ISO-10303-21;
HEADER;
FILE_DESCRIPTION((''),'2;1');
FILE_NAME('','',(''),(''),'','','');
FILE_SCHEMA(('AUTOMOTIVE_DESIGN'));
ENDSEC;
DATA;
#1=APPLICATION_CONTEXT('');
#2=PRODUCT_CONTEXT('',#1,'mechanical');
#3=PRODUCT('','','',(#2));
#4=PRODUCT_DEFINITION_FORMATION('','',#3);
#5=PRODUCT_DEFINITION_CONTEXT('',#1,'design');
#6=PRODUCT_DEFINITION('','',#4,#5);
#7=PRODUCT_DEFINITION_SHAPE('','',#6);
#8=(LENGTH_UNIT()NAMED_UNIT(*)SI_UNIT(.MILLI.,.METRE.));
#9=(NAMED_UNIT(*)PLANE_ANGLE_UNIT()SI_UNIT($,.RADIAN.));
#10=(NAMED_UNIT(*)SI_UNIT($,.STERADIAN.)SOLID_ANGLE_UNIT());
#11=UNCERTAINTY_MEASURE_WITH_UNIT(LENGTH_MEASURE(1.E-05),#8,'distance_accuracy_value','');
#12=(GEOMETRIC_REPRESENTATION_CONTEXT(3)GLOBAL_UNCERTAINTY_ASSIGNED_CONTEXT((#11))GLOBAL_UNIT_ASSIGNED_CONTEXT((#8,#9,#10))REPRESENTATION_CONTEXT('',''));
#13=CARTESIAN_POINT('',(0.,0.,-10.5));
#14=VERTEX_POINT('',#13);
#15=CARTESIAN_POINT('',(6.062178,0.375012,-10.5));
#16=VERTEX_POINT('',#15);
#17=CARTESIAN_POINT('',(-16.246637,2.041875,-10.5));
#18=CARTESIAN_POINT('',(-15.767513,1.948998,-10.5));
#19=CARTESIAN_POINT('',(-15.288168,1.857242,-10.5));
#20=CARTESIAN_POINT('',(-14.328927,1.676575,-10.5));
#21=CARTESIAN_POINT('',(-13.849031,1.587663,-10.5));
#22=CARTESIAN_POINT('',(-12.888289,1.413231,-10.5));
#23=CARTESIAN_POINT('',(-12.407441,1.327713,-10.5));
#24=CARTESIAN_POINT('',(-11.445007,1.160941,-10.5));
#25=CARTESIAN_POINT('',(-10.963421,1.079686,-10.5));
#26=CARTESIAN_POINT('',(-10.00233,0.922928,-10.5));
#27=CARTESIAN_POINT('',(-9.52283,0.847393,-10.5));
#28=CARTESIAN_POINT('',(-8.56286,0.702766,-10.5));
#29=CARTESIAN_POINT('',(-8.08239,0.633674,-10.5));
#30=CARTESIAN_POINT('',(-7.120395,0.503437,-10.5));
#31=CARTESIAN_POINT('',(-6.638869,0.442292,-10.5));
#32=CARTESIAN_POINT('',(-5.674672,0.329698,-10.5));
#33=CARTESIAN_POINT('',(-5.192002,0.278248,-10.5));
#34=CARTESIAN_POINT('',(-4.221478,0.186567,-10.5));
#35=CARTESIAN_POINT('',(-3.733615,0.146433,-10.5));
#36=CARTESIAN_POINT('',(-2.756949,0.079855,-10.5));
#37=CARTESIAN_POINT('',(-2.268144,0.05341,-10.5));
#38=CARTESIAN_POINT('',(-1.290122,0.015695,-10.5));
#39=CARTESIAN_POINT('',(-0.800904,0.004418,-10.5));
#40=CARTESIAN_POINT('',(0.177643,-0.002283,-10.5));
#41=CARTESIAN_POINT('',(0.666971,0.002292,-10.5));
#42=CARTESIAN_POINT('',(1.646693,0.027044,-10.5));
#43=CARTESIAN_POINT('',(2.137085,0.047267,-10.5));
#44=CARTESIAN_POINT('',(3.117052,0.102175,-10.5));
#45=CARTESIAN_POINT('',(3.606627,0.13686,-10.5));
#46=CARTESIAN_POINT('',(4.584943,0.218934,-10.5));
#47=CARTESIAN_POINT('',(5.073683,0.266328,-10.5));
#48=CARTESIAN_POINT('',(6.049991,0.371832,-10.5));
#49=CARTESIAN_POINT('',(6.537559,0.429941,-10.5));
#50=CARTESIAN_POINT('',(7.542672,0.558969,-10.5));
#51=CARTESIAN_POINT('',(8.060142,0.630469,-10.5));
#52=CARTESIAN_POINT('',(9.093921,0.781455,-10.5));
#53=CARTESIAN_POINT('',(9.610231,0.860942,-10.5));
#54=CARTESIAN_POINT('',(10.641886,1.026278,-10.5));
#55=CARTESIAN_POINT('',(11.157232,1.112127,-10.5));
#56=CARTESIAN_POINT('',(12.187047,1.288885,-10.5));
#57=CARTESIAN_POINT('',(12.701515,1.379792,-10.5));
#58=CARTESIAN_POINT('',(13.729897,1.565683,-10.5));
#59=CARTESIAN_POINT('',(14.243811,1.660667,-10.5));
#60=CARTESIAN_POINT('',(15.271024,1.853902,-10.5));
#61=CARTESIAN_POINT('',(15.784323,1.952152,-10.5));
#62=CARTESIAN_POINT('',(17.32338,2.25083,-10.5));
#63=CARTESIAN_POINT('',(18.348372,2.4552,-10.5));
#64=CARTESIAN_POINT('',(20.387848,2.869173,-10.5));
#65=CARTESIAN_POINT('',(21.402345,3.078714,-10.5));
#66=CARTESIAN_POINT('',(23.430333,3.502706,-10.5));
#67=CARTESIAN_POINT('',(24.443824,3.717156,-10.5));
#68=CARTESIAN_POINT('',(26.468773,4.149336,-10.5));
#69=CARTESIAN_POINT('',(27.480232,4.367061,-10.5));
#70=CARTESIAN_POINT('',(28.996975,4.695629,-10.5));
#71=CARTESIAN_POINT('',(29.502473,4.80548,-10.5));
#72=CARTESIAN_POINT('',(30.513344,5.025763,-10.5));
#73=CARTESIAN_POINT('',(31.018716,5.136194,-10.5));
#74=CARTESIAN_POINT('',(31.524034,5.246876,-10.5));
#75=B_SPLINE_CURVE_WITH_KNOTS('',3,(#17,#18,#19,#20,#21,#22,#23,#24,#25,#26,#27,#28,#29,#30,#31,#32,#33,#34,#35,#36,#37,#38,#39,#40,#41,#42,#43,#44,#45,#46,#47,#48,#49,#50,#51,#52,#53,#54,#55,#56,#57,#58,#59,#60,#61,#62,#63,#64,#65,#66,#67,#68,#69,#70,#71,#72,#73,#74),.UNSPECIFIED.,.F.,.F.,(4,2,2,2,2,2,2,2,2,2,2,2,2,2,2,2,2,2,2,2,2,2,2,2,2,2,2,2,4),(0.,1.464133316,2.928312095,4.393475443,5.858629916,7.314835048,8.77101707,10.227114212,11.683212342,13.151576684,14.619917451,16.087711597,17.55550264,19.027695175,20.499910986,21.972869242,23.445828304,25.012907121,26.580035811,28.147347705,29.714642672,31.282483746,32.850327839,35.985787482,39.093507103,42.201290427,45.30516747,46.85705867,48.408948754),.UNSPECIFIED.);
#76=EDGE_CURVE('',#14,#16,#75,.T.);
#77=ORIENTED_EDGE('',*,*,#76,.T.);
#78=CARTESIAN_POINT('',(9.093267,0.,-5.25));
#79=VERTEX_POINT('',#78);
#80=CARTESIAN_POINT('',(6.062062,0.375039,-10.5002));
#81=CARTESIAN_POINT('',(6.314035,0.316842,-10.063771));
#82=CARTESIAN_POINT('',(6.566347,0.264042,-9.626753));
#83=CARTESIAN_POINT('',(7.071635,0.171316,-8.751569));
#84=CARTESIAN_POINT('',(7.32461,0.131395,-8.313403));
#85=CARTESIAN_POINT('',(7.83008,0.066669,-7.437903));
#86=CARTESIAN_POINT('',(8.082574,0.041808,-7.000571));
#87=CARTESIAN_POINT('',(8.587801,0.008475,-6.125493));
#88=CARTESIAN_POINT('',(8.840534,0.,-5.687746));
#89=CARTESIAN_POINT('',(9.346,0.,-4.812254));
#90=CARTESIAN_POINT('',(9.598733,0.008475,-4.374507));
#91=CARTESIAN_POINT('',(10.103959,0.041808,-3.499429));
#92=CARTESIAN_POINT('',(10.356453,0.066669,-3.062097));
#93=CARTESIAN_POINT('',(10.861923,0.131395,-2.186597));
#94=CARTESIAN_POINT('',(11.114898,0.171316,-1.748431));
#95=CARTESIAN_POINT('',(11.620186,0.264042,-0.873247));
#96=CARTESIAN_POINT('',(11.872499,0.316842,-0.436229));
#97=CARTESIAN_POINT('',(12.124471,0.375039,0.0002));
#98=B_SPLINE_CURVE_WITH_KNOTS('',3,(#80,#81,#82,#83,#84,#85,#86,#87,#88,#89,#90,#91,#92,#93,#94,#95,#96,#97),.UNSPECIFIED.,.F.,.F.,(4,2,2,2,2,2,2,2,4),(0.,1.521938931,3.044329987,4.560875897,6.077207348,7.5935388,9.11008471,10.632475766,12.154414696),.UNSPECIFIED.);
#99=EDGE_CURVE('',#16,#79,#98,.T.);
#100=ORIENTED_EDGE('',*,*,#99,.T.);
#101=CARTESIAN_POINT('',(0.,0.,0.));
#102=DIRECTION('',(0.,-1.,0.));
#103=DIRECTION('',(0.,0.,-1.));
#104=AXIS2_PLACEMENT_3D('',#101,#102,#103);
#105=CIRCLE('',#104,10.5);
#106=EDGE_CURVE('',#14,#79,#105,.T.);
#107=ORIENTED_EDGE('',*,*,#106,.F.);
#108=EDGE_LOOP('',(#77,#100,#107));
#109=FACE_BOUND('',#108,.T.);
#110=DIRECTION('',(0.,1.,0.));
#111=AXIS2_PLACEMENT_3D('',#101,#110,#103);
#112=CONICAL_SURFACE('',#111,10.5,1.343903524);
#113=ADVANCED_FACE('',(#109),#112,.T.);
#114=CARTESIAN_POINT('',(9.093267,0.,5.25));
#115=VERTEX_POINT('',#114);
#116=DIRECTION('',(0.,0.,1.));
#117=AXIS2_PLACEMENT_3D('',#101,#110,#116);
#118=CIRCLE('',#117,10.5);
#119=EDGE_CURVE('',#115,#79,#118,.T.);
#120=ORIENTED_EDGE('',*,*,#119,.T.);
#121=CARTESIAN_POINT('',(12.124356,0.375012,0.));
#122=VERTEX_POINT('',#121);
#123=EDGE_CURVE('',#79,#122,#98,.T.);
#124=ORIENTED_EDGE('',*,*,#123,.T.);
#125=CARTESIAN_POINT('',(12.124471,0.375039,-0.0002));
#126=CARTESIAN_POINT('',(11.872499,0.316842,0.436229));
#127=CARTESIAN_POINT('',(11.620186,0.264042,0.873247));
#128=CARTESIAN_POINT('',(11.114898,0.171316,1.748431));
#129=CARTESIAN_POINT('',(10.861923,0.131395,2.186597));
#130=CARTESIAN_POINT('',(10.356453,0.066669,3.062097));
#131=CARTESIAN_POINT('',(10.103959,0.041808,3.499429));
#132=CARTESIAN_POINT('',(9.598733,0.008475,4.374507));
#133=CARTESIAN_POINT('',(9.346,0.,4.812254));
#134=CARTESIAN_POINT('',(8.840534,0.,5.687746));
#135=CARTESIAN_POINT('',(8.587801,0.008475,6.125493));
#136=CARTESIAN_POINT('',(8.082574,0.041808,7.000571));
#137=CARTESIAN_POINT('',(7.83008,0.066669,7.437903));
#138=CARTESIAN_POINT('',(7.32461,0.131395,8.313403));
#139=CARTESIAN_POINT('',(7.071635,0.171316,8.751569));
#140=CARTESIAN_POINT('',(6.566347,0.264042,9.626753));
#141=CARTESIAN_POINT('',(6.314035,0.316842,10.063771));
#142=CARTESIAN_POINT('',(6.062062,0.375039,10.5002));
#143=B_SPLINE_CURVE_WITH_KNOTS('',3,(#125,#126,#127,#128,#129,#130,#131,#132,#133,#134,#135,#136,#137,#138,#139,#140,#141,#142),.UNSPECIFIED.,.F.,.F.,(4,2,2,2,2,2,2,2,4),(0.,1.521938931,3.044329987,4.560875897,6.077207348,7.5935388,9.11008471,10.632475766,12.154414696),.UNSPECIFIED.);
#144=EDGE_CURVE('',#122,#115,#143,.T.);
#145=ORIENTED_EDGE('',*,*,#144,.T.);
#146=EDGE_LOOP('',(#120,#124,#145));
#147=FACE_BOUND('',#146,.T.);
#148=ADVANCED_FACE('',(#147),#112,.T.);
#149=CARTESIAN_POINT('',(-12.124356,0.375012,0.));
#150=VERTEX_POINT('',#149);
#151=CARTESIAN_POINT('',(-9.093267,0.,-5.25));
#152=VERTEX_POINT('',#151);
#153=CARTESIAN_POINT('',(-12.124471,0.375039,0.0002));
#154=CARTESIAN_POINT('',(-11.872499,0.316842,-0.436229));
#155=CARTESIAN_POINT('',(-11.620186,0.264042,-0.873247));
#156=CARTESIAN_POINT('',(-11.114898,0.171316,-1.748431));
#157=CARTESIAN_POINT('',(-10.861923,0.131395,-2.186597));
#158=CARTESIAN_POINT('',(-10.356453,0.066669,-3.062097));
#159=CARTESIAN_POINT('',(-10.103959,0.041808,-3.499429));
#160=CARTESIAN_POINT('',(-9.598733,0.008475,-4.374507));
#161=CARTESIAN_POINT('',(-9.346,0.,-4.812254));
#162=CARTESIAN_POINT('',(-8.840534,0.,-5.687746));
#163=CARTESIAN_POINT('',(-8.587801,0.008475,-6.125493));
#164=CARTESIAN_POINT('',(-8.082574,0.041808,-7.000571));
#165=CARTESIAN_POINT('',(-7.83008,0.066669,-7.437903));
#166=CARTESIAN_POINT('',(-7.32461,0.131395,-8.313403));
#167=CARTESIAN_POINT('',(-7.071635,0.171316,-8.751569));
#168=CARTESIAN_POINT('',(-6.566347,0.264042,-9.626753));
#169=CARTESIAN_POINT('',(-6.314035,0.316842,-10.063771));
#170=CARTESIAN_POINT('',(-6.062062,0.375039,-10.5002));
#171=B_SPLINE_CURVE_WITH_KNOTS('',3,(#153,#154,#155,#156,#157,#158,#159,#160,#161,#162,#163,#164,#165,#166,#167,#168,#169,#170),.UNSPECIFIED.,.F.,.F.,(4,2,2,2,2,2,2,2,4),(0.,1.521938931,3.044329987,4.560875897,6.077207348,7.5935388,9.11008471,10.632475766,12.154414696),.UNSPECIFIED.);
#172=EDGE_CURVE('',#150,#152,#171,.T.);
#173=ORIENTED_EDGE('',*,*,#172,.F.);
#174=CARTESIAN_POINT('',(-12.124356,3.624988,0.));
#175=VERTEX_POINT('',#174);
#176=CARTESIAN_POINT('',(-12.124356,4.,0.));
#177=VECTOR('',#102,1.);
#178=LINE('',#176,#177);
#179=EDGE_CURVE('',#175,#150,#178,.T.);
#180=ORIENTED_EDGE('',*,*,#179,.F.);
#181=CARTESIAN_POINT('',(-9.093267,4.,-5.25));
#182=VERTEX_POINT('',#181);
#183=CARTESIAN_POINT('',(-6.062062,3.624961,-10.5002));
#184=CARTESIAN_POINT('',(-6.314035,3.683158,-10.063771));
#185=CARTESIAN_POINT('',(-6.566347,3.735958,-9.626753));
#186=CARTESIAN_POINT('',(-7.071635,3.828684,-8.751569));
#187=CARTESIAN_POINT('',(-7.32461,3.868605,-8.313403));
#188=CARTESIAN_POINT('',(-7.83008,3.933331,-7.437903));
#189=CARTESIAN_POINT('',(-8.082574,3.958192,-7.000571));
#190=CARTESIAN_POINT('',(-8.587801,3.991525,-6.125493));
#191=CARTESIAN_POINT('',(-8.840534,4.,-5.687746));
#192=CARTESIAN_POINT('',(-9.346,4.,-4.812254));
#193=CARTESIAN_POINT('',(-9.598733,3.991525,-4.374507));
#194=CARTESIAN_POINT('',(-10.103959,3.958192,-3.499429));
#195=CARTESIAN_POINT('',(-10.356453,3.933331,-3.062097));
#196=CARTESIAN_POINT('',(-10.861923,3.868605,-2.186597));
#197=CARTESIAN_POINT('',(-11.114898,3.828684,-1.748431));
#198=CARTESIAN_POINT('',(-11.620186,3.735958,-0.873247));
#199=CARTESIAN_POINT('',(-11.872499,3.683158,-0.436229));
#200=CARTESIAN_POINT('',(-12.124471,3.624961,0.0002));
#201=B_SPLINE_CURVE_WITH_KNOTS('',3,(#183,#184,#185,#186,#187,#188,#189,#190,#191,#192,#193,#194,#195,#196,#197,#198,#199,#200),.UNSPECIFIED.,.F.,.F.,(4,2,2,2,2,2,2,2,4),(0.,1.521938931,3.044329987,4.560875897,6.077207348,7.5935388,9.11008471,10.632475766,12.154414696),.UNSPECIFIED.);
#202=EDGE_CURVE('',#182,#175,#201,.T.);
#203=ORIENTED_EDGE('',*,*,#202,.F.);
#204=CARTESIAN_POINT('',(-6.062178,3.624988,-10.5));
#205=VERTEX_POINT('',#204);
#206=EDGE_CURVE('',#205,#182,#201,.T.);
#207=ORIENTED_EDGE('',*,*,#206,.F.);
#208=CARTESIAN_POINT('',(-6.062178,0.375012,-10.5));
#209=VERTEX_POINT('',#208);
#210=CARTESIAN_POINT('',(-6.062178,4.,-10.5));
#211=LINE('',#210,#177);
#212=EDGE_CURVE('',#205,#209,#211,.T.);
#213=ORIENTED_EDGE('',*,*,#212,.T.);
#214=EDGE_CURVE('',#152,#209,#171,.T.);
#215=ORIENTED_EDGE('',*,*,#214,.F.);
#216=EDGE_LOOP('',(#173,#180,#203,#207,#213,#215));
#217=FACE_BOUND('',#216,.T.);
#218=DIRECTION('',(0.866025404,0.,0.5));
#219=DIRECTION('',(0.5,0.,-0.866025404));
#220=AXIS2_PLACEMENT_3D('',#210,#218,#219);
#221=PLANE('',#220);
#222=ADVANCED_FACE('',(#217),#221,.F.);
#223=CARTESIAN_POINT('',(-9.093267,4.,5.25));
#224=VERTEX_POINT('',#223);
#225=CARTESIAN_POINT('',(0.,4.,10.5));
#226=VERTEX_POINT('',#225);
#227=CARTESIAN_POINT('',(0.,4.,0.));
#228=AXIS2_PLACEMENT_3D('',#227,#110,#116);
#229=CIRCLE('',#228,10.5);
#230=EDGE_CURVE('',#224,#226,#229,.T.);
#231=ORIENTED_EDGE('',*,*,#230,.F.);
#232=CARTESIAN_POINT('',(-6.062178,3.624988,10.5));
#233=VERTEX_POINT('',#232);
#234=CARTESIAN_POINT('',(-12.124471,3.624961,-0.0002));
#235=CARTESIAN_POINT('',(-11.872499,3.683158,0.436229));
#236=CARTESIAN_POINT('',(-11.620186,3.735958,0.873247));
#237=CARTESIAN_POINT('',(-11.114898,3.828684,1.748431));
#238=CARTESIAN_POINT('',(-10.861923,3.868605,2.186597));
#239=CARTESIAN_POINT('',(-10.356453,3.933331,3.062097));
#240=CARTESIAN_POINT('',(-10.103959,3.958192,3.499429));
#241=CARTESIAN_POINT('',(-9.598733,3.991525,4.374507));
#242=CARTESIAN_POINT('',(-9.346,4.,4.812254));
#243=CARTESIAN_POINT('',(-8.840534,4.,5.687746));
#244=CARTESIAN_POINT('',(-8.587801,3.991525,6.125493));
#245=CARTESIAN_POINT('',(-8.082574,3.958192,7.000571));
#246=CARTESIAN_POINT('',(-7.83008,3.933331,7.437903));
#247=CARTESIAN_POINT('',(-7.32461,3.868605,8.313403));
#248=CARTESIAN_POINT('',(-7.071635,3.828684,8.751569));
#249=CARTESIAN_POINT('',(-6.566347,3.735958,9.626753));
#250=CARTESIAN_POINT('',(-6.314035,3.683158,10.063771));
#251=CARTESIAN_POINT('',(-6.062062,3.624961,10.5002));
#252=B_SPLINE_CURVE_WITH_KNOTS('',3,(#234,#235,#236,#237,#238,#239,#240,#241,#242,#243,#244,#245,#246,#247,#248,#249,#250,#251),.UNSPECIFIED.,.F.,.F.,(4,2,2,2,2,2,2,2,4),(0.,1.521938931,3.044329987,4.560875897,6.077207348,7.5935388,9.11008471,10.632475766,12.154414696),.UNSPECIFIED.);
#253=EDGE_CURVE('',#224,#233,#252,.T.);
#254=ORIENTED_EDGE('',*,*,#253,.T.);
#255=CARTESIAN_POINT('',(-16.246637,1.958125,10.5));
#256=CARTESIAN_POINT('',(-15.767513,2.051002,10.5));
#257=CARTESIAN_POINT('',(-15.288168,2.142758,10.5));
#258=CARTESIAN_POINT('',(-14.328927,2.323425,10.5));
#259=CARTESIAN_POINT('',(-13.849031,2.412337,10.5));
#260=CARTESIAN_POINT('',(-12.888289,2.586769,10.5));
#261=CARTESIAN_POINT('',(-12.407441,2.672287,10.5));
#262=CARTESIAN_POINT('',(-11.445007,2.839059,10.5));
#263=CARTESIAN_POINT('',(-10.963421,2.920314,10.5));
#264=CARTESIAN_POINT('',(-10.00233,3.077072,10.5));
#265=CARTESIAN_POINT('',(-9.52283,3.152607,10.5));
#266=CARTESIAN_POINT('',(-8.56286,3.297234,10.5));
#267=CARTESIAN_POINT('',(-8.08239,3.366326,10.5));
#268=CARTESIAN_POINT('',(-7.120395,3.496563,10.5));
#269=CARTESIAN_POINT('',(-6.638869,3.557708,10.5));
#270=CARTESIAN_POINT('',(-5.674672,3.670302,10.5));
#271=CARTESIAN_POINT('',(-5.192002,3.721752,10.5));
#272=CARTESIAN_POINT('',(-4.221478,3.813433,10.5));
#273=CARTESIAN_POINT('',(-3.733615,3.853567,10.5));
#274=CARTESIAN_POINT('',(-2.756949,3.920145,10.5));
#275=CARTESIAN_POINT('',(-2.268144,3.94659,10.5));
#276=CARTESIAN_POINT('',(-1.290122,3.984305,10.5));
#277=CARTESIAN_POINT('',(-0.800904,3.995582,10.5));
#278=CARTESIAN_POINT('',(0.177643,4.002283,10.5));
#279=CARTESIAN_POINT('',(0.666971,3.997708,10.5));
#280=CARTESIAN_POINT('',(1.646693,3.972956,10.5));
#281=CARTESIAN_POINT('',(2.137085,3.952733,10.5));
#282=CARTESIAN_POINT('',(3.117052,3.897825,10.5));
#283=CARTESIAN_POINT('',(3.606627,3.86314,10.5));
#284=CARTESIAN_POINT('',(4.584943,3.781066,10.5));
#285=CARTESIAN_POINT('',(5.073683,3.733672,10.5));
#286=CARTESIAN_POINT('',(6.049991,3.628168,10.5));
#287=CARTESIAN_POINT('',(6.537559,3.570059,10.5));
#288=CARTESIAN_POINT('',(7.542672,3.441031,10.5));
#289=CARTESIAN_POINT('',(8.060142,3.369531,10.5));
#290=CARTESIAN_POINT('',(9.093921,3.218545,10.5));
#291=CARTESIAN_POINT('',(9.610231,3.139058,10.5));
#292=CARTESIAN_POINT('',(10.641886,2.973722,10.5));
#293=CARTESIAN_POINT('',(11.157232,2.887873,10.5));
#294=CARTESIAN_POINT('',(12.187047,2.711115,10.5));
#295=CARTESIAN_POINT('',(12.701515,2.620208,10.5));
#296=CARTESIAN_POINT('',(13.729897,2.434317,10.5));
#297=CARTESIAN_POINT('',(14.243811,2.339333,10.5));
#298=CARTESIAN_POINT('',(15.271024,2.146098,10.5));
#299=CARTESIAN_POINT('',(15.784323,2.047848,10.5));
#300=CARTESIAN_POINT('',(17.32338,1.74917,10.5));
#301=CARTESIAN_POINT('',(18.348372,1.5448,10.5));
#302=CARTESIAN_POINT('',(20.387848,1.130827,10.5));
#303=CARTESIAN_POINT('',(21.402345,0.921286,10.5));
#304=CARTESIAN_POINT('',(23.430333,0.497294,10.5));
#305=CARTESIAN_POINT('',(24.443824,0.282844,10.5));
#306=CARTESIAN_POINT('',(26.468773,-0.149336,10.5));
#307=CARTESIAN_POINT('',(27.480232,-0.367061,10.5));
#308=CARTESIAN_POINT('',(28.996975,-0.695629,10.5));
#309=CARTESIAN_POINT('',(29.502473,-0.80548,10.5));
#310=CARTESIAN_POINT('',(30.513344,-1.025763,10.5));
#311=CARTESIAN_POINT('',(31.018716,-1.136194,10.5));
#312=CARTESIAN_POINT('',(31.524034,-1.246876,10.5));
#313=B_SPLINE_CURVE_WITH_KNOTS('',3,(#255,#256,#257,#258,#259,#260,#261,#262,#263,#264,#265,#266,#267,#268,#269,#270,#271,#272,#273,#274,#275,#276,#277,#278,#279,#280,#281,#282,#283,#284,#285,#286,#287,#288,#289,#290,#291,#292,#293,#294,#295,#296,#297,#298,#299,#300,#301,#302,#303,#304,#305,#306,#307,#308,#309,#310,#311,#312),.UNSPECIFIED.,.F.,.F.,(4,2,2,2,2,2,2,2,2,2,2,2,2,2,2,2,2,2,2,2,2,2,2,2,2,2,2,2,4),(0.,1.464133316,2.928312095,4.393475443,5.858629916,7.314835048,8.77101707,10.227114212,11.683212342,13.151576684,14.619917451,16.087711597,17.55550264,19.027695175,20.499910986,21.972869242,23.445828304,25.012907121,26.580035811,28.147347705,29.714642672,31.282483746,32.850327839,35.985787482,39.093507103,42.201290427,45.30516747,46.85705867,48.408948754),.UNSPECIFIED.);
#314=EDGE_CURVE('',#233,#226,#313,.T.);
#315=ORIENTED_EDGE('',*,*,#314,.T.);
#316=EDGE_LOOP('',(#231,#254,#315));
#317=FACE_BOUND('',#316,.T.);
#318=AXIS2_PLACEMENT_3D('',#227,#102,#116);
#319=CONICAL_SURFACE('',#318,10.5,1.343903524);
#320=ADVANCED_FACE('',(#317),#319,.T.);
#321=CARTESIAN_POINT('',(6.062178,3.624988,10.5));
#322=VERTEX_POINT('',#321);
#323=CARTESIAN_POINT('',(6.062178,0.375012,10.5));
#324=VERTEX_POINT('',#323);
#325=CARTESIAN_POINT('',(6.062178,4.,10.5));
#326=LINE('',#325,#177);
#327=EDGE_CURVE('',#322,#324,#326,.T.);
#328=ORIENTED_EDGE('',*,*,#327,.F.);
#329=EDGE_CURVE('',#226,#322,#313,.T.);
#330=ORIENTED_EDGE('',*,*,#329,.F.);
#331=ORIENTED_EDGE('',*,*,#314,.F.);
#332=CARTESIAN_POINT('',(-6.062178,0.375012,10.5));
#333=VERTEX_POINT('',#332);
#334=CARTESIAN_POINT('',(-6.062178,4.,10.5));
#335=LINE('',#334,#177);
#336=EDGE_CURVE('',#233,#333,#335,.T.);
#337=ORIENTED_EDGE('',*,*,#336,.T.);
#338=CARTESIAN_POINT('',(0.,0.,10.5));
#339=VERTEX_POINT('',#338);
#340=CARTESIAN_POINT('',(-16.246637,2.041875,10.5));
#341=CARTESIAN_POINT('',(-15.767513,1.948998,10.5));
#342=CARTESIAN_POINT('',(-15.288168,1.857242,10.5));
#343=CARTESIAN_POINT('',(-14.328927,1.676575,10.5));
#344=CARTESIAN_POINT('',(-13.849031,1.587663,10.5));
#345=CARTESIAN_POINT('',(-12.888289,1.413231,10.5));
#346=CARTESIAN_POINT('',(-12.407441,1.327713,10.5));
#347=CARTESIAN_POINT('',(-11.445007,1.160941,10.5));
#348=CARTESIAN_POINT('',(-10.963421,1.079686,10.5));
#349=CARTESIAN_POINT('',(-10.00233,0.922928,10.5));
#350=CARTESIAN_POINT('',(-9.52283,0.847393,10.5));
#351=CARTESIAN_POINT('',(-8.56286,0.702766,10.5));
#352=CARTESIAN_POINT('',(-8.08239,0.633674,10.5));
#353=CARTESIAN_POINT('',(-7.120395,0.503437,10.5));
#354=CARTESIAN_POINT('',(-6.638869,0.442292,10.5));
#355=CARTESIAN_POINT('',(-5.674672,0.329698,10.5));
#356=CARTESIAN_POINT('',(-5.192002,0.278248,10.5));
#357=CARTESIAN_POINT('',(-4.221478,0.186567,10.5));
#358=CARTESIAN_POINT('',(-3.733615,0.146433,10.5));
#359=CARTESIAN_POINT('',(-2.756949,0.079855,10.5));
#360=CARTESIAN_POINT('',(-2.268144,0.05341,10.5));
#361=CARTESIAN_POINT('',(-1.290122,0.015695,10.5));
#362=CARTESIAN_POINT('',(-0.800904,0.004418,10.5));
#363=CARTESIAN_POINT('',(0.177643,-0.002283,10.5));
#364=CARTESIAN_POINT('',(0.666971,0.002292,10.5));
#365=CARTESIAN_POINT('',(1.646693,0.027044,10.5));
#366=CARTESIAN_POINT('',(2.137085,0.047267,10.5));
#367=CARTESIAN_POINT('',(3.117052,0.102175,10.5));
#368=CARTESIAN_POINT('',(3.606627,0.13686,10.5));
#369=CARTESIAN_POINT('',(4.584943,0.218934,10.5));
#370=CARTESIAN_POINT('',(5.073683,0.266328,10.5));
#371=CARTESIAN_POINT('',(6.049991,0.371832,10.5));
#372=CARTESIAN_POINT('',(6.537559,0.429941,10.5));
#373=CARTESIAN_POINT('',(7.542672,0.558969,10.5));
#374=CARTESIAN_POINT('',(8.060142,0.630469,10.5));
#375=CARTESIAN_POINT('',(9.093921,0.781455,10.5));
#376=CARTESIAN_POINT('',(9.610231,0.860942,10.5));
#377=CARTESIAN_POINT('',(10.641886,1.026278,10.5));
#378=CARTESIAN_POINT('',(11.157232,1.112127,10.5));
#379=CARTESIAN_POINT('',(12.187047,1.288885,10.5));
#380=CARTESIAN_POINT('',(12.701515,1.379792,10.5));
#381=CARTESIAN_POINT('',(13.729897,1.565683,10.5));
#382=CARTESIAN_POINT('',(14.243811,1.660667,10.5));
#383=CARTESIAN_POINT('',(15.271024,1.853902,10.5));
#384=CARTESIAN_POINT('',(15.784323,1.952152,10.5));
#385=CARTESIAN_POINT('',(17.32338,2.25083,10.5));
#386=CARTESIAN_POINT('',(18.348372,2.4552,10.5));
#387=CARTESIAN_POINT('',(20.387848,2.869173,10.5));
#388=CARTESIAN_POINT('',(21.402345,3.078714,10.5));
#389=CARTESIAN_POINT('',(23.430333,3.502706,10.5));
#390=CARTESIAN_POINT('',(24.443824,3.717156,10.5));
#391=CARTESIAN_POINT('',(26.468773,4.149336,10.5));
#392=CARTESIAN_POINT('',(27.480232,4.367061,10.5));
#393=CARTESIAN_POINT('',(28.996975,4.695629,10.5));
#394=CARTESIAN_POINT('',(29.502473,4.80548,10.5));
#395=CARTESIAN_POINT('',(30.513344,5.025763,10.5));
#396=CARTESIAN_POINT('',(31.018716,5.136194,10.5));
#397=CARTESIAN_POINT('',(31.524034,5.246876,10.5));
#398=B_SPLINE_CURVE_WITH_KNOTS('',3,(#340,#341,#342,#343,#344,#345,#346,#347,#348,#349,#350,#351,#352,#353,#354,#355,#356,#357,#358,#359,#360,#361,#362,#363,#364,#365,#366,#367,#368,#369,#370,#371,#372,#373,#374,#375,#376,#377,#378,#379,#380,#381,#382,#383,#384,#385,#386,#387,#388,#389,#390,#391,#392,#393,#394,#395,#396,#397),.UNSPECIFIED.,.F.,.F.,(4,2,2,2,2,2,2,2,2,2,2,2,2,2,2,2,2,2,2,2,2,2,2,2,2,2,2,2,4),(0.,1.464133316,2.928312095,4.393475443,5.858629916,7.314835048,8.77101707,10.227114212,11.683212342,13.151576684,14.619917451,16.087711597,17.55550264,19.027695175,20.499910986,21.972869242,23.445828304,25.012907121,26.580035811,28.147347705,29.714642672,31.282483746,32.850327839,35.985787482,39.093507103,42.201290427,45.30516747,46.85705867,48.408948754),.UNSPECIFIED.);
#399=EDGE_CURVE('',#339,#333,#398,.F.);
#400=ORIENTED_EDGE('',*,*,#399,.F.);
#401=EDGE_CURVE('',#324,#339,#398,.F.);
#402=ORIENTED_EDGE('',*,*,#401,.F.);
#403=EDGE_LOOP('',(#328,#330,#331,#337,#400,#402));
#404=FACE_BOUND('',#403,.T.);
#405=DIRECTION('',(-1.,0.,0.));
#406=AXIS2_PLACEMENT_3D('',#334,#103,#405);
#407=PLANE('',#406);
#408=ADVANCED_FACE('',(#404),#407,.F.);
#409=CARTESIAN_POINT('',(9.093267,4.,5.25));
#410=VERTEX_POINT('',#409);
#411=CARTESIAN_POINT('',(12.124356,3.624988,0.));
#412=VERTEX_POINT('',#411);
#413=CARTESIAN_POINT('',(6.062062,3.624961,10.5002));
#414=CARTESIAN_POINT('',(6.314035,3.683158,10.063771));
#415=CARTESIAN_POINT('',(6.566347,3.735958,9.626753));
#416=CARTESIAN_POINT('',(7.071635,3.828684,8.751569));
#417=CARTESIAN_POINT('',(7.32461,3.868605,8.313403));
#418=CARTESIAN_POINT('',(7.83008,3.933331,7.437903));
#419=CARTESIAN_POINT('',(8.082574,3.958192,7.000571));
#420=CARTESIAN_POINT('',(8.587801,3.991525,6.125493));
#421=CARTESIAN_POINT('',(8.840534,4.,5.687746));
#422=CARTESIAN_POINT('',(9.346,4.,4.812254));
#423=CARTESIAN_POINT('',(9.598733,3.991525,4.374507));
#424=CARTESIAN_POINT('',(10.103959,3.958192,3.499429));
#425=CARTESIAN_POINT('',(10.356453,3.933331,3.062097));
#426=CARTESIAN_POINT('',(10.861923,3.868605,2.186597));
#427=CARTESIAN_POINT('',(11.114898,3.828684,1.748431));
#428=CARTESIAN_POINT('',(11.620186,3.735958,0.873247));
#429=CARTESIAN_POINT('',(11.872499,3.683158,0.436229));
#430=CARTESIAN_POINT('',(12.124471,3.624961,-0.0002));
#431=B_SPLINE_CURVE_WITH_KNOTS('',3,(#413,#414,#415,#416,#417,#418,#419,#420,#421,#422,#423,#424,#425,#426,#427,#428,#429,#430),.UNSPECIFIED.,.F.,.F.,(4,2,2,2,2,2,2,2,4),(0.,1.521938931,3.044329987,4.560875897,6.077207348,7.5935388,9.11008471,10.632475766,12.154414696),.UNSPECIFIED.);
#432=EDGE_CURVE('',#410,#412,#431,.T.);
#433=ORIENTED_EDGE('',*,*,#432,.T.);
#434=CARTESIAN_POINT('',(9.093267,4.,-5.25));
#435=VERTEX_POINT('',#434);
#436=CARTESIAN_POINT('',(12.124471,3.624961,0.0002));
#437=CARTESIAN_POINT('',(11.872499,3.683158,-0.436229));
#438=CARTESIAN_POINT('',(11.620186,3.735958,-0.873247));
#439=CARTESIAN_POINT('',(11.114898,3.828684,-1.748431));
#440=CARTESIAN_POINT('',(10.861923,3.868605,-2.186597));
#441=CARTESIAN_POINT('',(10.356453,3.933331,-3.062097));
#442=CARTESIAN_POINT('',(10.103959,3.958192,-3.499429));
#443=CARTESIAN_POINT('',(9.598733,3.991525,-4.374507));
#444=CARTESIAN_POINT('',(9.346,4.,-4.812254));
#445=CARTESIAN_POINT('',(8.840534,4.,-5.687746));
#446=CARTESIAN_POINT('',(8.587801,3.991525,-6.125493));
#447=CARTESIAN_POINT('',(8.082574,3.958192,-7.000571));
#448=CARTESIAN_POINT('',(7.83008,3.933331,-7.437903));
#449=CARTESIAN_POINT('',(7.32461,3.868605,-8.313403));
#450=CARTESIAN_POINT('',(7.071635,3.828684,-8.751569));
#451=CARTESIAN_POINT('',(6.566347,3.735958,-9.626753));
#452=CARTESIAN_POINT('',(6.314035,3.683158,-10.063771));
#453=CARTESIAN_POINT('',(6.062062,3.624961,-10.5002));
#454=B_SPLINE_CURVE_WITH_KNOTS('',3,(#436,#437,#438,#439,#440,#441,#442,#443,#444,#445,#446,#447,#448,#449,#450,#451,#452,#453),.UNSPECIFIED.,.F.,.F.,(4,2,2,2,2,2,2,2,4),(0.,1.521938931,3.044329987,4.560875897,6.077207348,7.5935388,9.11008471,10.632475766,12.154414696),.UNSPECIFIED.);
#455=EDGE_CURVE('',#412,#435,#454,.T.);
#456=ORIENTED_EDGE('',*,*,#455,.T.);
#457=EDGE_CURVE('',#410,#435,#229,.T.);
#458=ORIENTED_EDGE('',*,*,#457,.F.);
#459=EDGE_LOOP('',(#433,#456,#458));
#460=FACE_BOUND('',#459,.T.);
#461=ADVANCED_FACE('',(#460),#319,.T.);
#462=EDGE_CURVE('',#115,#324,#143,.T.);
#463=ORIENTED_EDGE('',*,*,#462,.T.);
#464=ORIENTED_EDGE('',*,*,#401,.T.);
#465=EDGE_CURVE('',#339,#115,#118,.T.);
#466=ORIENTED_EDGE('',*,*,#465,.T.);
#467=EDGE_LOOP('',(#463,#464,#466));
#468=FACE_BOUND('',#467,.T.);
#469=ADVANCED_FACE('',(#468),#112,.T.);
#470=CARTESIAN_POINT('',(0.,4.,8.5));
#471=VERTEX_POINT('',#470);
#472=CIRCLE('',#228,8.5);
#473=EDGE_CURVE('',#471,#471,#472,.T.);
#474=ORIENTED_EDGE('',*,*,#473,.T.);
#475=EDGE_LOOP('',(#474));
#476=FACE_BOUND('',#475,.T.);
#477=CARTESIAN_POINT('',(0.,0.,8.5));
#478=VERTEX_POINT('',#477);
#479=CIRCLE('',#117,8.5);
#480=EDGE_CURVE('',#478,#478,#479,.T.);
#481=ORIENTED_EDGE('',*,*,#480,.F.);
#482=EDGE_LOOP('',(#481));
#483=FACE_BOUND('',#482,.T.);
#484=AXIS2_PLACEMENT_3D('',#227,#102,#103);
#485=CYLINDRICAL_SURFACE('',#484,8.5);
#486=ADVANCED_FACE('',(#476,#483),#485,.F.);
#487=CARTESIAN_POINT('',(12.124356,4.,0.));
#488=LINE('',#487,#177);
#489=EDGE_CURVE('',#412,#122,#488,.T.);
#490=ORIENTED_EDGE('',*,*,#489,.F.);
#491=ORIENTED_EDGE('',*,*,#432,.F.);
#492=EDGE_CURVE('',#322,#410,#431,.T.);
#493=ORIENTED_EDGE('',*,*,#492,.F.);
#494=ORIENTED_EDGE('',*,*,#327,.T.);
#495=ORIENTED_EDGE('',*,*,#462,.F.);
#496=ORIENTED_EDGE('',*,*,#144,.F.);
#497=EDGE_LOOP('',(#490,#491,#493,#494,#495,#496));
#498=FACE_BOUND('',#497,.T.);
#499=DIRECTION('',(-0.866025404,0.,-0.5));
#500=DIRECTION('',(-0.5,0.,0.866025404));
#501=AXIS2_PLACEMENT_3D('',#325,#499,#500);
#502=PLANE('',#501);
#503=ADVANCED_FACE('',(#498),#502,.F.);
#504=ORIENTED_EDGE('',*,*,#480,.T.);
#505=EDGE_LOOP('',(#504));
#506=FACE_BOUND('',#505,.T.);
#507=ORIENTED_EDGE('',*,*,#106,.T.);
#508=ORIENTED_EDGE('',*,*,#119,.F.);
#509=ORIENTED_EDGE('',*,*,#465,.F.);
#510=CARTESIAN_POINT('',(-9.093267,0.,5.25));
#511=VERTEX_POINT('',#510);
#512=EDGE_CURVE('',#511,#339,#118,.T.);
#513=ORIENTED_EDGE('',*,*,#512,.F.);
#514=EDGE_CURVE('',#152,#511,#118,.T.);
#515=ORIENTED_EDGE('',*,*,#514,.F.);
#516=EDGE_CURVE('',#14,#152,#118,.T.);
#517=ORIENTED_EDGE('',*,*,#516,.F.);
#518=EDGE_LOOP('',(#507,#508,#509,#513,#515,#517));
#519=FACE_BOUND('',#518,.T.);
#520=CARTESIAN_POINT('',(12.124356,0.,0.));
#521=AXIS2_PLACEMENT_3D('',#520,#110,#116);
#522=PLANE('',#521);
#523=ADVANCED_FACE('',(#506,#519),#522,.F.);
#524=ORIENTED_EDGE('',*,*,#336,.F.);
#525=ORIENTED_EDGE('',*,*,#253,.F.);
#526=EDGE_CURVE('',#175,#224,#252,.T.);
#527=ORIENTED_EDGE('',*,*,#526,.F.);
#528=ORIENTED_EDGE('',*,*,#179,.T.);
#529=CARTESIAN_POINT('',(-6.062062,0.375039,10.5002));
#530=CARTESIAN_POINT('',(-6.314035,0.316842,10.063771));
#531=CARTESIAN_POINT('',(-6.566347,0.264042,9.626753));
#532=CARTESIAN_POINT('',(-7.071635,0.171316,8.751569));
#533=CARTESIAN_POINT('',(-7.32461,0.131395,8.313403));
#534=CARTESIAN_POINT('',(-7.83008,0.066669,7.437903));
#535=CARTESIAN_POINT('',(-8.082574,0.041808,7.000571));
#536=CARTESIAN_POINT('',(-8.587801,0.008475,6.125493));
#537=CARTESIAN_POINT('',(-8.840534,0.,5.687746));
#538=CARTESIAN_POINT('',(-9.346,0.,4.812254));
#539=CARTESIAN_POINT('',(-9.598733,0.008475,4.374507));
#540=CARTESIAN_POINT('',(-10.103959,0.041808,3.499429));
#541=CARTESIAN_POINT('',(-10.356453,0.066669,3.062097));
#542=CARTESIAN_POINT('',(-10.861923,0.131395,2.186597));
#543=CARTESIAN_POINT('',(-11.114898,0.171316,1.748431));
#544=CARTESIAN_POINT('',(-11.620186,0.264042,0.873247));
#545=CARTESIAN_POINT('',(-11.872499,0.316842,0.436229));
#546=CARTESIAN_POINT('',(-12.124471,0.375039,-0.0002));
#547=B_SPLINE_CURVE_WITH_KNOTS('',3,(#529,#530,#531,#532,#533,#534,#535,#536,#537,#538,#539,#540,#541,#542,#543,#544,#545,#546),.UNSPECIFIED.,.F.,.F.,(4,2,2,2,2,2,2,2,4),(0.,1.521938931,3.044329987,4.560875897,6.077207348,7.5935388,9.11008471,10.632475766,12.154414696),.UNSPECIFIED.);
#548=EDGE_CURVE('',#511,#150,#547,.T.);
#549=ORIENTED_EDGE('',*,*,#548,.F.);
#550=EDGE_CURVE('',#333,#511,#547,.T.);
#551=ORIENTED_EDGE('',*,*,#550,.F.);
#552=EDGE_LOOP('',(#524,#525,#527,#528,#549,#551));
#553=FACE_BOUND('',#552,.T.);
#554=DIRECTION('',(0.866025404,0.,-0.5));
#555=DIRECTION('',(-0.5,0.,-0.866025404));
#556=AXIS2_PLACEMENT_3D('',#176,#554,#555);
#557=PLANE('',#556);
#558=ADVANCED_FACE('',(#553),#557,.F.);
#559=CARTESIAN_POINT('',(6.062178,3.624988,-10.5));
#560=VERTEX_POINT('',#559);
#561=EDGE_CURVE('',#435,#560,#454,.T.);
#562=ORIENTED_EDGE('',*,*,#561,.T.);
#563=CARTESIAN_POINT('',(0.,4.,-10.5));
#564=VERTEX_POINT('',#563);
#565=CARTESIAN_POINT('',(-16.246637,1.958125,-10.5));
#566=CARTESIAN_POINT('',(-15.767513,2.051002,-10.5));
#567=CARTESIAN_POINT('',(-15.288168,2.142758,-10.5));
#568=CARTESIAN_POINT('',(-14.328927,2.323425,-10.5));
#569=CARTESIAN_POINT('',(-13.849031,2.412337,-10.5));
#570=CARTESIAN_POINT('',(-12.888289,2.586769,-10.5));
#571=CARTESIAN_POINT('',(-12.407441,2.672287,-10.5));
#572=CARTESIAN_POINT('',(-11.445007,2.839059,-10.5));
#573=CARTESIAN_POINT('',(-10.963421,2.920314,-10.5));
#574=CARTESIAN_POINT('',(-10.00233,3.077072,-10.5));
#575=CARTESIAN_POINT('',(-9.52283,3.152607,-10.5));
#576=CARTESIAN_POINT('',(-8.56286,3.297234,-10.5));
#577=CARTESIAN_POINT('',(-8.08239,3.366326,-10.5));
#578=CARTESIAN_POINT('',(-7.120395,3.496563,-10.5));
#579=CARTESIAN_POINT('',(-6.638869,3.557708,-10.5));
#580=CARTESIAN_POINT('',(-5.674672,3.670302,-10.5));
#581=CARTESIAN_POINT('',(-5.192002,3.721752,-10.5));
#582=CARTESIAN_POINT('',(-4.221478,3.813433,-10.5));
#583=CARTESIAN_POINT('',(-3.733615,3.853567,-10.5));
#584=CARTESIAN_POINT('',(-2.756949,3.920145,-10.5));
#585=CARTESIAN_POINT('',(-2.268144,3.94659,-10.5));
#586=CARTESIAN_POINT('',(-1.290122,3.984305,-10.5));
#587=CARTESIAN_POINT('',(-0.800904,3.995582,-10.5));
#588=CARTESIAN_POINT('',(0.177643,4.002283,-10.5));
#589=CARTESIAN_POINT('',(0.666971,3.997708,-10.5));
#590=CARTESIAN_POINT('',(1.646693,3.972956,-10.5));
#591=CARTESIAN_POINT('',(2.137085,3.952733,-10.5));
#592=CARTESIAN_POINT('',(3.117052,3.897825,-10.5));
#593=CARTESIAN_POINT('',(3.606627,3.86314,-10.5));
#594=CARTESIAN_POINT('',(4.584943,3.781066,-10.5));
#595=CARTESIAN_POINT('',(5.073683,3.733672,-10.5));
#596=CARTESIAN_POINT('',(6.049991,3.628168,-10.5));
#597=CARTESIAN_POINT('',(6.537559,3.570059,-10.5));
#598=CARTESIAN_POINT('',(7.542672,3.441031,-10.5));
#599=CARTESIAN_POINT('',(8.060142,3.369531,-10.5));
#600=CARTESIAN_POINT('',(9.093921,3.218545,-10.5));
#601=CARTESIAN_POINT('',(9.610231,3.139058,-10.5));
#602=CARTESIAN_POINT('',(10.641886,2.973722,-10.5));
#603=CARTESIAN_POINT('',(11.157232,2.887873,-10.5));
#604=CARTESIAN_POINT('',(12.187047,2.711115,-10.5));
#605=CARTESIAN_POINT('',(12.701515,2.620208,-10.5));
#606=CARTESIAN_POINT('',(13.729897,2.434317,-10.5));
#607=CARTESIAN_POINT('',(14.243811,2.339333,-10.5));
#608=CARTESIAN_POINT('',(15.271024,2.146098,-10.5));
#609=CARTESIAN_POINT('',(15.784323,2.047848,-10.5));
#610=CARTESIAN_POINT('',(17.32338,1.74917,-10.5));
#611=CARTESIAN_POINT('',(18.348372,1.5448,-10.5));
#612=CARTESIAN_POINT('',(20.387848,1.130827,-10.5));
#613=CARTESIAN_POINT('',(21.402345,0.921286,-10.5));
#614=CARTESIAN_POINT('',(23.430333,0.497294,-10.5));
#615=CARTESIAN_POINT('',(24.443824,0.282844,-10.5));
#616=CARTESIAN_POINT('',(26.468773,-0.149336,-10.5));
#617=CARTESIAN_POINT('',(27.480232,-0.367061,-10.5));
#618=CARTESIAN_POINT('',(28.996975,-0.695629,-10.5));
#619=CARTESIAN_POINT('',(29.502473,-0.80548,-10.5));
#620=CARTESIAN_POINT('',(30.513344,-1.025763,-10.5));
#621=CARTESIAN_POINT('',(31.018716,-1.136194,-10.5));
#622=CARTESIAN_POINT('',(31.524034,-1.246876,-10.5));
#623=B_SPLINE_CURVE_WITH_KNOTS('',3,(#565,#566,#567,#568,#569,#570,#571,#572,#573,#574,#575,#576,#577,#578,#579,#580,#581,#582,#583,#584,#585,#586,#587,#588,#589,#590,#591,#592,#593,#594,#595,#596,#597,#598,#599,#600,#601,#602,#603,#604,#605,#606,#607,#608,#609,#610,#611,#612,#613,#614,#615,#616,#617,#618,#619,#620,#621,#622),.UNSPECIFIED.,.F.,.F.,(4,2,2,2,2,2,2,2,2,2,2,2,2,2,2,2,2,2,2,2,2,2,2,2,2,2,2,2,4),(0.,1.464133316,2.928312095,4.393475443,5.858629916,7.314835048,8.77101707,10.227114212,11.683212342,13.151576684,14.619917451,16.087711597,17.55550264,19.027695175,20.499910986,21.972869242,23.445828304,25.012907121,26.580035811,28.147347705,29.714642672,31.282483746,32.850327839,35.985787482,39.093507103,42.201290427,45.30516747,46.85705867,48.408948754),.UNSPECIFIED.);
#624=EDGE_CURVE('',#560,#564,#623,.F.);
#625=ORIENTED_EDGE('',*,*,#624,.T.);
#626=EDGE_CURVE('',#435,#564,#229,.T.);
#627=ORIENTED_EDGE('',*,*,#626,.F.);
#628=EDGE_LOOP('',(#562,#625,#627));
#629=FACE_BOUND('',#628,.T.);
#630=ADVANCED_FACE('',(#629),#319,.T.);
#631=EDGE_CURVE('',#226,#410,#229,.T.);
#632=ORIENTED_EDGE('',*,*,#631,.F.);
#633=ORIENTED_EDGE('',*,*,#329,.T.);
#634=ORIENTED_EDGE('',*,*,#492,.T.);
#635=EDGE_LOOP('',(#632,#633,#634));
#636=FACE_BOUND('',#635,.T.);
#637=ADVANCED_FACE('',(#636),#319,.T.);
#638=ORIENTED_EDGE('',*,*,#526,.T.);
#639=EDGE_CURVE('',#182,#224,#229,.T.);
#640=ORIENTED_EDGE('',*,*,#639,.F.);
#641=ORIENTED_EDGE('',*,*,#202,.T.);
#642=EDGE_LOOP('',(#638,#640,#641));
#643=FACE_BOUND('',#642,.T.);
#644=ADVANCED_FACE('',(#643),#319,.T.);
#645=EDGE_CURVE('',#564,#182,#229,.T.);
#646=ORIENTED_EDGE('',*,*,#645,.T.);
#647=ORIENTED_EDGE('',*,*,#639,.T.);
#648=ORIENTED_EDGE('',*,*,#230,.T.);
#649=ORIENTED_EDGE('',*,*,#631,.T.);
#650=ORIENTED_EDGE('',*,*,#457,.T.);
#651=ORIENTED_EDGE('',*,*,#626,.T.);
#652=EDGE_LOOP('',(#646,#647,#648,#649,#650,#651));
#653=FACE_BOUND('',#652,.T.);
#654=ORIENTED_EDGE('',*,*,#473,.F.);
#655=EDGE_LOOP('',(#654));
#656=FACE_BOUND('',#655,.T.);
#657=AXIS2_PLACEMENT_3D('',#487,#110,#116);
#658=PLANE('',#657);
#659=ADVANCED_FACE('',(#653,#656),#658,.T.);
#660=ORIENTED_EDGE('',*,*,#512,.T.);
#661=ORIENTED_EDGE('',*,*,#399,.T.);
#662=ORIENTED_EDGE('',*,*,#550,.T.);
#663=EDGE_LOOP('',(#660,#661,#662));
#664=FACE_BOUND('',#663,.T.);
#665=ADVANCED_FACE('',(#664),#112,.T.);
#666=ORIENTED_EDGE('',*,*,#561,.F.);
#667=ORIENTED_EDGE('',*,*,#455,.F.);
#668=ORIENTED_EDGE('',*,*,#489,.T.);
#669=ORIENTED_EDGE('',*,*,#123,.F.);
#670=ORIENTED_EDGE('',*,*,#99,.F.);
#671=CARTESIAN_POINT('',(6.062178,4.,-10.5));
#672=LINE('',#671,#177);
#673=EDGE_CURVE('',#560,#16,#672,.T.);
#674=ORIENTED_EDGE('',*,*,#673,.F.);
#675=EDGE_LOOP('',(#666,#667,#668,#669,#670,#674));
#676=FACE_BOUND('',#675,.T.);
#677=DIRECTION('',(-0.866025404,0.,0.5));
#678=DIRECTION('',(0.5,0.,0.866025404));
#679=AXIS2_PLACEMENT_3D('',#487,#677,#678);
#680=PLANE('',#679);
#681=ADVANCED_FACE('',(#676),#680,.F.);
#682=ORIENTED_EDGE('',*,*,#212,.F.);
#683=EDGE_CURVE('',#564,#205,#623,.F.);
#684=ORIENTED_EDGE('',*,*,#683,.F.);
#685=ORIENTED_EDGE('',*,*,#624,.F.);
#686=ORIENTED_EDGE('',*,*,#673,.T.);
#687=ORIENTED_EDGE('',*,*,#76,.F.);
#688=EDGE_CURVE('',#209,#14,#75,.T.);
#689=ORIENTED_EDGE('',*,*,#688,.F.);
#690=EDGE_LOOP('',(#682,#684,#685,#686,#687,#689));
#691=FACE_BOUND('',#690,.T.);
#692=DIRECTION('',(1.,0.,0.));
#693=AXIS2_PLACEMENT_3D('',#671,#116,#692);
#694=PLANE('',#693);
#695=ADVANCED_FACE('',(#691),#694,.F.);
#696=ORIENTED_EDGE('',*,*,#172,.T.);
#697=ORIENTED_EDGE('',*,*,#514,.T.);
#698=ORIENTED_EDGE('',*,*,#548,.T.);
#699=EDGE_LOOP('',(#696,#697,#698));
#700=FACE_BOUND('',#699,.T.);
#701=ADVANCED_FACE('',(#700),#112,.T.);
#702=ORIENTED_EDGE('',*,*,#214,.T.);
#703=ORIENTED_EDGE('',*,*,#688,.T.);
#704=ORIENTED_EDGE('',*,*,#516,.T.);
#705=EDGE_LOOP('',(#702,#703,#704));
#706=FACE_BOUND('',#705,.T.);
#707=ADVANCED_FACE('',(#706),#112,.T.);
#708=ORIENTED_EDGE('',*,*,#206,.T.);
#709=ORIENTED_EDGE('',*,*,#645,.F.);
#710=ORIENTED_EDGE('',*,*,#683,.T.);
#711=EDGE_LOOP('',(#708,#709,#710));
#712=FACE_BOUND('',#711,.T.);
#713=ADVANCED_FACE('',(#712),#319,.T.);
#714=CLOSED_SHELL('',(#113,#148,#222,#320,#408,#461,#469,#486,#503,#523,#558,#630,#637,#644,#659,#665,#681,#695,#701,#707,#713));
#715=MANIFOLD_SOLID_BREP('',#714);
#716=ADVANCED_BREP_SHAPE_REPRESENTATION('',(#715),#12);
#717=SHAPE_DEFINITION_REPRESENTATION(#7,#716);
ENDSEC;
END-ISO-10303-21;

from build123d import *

# Parameters (mm, degrees)
SKETCH_1_R          = 8.5
EXTRUDE_1_DEPTH     = 4
SKETCH_2_OUTSIDE_W  = 76.028
SKETCH_2_OUTSIDE_H  = 72.78
SKETCH_2_OUTSIDE_R  = 10.5
CUT_EXTRUDE_1_DEPTH = 5
CUT_EXTRUDE_1_TAPER = 77
SKETCH_3_OUTSIDE_W  = 76.028
SKETCH_3_OUTSIDE_H  = 72.78
SKETCH_3_OUTSIDE_R  = 10.5
CUT_EXTRUDE_2_DEPTH = 5
CUT_EXTRUDE_2_TAPER = 77


with BuildPart() as part:
    # Эскиз1 → Бобышка-Вытянуть1 (new body)
    with BuildSketch(Plane(origin=(0, 0, 0), x_dir=(1, 0, 0), z_dir=(0, 1, 0))):
        Polygon((12.124355653, 0), (6.062177826, 10.5), (-6.062177826, 10.5), (-12.124355653, 0), (-6.062177826, -10.5), (6.062177826, -10.5), align=None)
        Circle(SKETCH_1_R, mode=Mode.SUBTRACT)
    extrude(amount=EXTRUDE_1_DEPTH)

    # Эскиз2 outside → Вырез-Вытянуть1 (cut, through all)
    with BuildSketch(Plane(origin=(0, 4, 0), x_dir=(1, 0, 0), z_dir=(0, 1, 0))):
        Rectangle(SKETCH_2_OUTSIDE_W, SKETCH_2_OUTSIDE_H)
        Circle(SKETCH_2_OUTSIDE_R, mode=Mode.SUBTRACT)
    extrude(amount=-CUT_EXTRUDE_1_DEPTH, taper=CUT_EXTRUDE_1_TAPER, mode=Mode.SUBTRACT)

    # Эскиз3 outside → Вырез-Вытянуть2 (cut, through all)
    with BuildSketch(Plane.XZ):
        Rectangle(SKETCH_3_OUTSIDE_W, SKETCH_3_OUTSIDE_H)
        Circle(SKETCH_3_OUTSIDE_R, mode=Mode.SUBTRACT)
    extrude(amount=-CUT_EXTRUDE_2_DEPTH, taper=CUT_EXTRUDE_2_TAPER, mode=Mode.SUBTRACT)


solid = part.part
